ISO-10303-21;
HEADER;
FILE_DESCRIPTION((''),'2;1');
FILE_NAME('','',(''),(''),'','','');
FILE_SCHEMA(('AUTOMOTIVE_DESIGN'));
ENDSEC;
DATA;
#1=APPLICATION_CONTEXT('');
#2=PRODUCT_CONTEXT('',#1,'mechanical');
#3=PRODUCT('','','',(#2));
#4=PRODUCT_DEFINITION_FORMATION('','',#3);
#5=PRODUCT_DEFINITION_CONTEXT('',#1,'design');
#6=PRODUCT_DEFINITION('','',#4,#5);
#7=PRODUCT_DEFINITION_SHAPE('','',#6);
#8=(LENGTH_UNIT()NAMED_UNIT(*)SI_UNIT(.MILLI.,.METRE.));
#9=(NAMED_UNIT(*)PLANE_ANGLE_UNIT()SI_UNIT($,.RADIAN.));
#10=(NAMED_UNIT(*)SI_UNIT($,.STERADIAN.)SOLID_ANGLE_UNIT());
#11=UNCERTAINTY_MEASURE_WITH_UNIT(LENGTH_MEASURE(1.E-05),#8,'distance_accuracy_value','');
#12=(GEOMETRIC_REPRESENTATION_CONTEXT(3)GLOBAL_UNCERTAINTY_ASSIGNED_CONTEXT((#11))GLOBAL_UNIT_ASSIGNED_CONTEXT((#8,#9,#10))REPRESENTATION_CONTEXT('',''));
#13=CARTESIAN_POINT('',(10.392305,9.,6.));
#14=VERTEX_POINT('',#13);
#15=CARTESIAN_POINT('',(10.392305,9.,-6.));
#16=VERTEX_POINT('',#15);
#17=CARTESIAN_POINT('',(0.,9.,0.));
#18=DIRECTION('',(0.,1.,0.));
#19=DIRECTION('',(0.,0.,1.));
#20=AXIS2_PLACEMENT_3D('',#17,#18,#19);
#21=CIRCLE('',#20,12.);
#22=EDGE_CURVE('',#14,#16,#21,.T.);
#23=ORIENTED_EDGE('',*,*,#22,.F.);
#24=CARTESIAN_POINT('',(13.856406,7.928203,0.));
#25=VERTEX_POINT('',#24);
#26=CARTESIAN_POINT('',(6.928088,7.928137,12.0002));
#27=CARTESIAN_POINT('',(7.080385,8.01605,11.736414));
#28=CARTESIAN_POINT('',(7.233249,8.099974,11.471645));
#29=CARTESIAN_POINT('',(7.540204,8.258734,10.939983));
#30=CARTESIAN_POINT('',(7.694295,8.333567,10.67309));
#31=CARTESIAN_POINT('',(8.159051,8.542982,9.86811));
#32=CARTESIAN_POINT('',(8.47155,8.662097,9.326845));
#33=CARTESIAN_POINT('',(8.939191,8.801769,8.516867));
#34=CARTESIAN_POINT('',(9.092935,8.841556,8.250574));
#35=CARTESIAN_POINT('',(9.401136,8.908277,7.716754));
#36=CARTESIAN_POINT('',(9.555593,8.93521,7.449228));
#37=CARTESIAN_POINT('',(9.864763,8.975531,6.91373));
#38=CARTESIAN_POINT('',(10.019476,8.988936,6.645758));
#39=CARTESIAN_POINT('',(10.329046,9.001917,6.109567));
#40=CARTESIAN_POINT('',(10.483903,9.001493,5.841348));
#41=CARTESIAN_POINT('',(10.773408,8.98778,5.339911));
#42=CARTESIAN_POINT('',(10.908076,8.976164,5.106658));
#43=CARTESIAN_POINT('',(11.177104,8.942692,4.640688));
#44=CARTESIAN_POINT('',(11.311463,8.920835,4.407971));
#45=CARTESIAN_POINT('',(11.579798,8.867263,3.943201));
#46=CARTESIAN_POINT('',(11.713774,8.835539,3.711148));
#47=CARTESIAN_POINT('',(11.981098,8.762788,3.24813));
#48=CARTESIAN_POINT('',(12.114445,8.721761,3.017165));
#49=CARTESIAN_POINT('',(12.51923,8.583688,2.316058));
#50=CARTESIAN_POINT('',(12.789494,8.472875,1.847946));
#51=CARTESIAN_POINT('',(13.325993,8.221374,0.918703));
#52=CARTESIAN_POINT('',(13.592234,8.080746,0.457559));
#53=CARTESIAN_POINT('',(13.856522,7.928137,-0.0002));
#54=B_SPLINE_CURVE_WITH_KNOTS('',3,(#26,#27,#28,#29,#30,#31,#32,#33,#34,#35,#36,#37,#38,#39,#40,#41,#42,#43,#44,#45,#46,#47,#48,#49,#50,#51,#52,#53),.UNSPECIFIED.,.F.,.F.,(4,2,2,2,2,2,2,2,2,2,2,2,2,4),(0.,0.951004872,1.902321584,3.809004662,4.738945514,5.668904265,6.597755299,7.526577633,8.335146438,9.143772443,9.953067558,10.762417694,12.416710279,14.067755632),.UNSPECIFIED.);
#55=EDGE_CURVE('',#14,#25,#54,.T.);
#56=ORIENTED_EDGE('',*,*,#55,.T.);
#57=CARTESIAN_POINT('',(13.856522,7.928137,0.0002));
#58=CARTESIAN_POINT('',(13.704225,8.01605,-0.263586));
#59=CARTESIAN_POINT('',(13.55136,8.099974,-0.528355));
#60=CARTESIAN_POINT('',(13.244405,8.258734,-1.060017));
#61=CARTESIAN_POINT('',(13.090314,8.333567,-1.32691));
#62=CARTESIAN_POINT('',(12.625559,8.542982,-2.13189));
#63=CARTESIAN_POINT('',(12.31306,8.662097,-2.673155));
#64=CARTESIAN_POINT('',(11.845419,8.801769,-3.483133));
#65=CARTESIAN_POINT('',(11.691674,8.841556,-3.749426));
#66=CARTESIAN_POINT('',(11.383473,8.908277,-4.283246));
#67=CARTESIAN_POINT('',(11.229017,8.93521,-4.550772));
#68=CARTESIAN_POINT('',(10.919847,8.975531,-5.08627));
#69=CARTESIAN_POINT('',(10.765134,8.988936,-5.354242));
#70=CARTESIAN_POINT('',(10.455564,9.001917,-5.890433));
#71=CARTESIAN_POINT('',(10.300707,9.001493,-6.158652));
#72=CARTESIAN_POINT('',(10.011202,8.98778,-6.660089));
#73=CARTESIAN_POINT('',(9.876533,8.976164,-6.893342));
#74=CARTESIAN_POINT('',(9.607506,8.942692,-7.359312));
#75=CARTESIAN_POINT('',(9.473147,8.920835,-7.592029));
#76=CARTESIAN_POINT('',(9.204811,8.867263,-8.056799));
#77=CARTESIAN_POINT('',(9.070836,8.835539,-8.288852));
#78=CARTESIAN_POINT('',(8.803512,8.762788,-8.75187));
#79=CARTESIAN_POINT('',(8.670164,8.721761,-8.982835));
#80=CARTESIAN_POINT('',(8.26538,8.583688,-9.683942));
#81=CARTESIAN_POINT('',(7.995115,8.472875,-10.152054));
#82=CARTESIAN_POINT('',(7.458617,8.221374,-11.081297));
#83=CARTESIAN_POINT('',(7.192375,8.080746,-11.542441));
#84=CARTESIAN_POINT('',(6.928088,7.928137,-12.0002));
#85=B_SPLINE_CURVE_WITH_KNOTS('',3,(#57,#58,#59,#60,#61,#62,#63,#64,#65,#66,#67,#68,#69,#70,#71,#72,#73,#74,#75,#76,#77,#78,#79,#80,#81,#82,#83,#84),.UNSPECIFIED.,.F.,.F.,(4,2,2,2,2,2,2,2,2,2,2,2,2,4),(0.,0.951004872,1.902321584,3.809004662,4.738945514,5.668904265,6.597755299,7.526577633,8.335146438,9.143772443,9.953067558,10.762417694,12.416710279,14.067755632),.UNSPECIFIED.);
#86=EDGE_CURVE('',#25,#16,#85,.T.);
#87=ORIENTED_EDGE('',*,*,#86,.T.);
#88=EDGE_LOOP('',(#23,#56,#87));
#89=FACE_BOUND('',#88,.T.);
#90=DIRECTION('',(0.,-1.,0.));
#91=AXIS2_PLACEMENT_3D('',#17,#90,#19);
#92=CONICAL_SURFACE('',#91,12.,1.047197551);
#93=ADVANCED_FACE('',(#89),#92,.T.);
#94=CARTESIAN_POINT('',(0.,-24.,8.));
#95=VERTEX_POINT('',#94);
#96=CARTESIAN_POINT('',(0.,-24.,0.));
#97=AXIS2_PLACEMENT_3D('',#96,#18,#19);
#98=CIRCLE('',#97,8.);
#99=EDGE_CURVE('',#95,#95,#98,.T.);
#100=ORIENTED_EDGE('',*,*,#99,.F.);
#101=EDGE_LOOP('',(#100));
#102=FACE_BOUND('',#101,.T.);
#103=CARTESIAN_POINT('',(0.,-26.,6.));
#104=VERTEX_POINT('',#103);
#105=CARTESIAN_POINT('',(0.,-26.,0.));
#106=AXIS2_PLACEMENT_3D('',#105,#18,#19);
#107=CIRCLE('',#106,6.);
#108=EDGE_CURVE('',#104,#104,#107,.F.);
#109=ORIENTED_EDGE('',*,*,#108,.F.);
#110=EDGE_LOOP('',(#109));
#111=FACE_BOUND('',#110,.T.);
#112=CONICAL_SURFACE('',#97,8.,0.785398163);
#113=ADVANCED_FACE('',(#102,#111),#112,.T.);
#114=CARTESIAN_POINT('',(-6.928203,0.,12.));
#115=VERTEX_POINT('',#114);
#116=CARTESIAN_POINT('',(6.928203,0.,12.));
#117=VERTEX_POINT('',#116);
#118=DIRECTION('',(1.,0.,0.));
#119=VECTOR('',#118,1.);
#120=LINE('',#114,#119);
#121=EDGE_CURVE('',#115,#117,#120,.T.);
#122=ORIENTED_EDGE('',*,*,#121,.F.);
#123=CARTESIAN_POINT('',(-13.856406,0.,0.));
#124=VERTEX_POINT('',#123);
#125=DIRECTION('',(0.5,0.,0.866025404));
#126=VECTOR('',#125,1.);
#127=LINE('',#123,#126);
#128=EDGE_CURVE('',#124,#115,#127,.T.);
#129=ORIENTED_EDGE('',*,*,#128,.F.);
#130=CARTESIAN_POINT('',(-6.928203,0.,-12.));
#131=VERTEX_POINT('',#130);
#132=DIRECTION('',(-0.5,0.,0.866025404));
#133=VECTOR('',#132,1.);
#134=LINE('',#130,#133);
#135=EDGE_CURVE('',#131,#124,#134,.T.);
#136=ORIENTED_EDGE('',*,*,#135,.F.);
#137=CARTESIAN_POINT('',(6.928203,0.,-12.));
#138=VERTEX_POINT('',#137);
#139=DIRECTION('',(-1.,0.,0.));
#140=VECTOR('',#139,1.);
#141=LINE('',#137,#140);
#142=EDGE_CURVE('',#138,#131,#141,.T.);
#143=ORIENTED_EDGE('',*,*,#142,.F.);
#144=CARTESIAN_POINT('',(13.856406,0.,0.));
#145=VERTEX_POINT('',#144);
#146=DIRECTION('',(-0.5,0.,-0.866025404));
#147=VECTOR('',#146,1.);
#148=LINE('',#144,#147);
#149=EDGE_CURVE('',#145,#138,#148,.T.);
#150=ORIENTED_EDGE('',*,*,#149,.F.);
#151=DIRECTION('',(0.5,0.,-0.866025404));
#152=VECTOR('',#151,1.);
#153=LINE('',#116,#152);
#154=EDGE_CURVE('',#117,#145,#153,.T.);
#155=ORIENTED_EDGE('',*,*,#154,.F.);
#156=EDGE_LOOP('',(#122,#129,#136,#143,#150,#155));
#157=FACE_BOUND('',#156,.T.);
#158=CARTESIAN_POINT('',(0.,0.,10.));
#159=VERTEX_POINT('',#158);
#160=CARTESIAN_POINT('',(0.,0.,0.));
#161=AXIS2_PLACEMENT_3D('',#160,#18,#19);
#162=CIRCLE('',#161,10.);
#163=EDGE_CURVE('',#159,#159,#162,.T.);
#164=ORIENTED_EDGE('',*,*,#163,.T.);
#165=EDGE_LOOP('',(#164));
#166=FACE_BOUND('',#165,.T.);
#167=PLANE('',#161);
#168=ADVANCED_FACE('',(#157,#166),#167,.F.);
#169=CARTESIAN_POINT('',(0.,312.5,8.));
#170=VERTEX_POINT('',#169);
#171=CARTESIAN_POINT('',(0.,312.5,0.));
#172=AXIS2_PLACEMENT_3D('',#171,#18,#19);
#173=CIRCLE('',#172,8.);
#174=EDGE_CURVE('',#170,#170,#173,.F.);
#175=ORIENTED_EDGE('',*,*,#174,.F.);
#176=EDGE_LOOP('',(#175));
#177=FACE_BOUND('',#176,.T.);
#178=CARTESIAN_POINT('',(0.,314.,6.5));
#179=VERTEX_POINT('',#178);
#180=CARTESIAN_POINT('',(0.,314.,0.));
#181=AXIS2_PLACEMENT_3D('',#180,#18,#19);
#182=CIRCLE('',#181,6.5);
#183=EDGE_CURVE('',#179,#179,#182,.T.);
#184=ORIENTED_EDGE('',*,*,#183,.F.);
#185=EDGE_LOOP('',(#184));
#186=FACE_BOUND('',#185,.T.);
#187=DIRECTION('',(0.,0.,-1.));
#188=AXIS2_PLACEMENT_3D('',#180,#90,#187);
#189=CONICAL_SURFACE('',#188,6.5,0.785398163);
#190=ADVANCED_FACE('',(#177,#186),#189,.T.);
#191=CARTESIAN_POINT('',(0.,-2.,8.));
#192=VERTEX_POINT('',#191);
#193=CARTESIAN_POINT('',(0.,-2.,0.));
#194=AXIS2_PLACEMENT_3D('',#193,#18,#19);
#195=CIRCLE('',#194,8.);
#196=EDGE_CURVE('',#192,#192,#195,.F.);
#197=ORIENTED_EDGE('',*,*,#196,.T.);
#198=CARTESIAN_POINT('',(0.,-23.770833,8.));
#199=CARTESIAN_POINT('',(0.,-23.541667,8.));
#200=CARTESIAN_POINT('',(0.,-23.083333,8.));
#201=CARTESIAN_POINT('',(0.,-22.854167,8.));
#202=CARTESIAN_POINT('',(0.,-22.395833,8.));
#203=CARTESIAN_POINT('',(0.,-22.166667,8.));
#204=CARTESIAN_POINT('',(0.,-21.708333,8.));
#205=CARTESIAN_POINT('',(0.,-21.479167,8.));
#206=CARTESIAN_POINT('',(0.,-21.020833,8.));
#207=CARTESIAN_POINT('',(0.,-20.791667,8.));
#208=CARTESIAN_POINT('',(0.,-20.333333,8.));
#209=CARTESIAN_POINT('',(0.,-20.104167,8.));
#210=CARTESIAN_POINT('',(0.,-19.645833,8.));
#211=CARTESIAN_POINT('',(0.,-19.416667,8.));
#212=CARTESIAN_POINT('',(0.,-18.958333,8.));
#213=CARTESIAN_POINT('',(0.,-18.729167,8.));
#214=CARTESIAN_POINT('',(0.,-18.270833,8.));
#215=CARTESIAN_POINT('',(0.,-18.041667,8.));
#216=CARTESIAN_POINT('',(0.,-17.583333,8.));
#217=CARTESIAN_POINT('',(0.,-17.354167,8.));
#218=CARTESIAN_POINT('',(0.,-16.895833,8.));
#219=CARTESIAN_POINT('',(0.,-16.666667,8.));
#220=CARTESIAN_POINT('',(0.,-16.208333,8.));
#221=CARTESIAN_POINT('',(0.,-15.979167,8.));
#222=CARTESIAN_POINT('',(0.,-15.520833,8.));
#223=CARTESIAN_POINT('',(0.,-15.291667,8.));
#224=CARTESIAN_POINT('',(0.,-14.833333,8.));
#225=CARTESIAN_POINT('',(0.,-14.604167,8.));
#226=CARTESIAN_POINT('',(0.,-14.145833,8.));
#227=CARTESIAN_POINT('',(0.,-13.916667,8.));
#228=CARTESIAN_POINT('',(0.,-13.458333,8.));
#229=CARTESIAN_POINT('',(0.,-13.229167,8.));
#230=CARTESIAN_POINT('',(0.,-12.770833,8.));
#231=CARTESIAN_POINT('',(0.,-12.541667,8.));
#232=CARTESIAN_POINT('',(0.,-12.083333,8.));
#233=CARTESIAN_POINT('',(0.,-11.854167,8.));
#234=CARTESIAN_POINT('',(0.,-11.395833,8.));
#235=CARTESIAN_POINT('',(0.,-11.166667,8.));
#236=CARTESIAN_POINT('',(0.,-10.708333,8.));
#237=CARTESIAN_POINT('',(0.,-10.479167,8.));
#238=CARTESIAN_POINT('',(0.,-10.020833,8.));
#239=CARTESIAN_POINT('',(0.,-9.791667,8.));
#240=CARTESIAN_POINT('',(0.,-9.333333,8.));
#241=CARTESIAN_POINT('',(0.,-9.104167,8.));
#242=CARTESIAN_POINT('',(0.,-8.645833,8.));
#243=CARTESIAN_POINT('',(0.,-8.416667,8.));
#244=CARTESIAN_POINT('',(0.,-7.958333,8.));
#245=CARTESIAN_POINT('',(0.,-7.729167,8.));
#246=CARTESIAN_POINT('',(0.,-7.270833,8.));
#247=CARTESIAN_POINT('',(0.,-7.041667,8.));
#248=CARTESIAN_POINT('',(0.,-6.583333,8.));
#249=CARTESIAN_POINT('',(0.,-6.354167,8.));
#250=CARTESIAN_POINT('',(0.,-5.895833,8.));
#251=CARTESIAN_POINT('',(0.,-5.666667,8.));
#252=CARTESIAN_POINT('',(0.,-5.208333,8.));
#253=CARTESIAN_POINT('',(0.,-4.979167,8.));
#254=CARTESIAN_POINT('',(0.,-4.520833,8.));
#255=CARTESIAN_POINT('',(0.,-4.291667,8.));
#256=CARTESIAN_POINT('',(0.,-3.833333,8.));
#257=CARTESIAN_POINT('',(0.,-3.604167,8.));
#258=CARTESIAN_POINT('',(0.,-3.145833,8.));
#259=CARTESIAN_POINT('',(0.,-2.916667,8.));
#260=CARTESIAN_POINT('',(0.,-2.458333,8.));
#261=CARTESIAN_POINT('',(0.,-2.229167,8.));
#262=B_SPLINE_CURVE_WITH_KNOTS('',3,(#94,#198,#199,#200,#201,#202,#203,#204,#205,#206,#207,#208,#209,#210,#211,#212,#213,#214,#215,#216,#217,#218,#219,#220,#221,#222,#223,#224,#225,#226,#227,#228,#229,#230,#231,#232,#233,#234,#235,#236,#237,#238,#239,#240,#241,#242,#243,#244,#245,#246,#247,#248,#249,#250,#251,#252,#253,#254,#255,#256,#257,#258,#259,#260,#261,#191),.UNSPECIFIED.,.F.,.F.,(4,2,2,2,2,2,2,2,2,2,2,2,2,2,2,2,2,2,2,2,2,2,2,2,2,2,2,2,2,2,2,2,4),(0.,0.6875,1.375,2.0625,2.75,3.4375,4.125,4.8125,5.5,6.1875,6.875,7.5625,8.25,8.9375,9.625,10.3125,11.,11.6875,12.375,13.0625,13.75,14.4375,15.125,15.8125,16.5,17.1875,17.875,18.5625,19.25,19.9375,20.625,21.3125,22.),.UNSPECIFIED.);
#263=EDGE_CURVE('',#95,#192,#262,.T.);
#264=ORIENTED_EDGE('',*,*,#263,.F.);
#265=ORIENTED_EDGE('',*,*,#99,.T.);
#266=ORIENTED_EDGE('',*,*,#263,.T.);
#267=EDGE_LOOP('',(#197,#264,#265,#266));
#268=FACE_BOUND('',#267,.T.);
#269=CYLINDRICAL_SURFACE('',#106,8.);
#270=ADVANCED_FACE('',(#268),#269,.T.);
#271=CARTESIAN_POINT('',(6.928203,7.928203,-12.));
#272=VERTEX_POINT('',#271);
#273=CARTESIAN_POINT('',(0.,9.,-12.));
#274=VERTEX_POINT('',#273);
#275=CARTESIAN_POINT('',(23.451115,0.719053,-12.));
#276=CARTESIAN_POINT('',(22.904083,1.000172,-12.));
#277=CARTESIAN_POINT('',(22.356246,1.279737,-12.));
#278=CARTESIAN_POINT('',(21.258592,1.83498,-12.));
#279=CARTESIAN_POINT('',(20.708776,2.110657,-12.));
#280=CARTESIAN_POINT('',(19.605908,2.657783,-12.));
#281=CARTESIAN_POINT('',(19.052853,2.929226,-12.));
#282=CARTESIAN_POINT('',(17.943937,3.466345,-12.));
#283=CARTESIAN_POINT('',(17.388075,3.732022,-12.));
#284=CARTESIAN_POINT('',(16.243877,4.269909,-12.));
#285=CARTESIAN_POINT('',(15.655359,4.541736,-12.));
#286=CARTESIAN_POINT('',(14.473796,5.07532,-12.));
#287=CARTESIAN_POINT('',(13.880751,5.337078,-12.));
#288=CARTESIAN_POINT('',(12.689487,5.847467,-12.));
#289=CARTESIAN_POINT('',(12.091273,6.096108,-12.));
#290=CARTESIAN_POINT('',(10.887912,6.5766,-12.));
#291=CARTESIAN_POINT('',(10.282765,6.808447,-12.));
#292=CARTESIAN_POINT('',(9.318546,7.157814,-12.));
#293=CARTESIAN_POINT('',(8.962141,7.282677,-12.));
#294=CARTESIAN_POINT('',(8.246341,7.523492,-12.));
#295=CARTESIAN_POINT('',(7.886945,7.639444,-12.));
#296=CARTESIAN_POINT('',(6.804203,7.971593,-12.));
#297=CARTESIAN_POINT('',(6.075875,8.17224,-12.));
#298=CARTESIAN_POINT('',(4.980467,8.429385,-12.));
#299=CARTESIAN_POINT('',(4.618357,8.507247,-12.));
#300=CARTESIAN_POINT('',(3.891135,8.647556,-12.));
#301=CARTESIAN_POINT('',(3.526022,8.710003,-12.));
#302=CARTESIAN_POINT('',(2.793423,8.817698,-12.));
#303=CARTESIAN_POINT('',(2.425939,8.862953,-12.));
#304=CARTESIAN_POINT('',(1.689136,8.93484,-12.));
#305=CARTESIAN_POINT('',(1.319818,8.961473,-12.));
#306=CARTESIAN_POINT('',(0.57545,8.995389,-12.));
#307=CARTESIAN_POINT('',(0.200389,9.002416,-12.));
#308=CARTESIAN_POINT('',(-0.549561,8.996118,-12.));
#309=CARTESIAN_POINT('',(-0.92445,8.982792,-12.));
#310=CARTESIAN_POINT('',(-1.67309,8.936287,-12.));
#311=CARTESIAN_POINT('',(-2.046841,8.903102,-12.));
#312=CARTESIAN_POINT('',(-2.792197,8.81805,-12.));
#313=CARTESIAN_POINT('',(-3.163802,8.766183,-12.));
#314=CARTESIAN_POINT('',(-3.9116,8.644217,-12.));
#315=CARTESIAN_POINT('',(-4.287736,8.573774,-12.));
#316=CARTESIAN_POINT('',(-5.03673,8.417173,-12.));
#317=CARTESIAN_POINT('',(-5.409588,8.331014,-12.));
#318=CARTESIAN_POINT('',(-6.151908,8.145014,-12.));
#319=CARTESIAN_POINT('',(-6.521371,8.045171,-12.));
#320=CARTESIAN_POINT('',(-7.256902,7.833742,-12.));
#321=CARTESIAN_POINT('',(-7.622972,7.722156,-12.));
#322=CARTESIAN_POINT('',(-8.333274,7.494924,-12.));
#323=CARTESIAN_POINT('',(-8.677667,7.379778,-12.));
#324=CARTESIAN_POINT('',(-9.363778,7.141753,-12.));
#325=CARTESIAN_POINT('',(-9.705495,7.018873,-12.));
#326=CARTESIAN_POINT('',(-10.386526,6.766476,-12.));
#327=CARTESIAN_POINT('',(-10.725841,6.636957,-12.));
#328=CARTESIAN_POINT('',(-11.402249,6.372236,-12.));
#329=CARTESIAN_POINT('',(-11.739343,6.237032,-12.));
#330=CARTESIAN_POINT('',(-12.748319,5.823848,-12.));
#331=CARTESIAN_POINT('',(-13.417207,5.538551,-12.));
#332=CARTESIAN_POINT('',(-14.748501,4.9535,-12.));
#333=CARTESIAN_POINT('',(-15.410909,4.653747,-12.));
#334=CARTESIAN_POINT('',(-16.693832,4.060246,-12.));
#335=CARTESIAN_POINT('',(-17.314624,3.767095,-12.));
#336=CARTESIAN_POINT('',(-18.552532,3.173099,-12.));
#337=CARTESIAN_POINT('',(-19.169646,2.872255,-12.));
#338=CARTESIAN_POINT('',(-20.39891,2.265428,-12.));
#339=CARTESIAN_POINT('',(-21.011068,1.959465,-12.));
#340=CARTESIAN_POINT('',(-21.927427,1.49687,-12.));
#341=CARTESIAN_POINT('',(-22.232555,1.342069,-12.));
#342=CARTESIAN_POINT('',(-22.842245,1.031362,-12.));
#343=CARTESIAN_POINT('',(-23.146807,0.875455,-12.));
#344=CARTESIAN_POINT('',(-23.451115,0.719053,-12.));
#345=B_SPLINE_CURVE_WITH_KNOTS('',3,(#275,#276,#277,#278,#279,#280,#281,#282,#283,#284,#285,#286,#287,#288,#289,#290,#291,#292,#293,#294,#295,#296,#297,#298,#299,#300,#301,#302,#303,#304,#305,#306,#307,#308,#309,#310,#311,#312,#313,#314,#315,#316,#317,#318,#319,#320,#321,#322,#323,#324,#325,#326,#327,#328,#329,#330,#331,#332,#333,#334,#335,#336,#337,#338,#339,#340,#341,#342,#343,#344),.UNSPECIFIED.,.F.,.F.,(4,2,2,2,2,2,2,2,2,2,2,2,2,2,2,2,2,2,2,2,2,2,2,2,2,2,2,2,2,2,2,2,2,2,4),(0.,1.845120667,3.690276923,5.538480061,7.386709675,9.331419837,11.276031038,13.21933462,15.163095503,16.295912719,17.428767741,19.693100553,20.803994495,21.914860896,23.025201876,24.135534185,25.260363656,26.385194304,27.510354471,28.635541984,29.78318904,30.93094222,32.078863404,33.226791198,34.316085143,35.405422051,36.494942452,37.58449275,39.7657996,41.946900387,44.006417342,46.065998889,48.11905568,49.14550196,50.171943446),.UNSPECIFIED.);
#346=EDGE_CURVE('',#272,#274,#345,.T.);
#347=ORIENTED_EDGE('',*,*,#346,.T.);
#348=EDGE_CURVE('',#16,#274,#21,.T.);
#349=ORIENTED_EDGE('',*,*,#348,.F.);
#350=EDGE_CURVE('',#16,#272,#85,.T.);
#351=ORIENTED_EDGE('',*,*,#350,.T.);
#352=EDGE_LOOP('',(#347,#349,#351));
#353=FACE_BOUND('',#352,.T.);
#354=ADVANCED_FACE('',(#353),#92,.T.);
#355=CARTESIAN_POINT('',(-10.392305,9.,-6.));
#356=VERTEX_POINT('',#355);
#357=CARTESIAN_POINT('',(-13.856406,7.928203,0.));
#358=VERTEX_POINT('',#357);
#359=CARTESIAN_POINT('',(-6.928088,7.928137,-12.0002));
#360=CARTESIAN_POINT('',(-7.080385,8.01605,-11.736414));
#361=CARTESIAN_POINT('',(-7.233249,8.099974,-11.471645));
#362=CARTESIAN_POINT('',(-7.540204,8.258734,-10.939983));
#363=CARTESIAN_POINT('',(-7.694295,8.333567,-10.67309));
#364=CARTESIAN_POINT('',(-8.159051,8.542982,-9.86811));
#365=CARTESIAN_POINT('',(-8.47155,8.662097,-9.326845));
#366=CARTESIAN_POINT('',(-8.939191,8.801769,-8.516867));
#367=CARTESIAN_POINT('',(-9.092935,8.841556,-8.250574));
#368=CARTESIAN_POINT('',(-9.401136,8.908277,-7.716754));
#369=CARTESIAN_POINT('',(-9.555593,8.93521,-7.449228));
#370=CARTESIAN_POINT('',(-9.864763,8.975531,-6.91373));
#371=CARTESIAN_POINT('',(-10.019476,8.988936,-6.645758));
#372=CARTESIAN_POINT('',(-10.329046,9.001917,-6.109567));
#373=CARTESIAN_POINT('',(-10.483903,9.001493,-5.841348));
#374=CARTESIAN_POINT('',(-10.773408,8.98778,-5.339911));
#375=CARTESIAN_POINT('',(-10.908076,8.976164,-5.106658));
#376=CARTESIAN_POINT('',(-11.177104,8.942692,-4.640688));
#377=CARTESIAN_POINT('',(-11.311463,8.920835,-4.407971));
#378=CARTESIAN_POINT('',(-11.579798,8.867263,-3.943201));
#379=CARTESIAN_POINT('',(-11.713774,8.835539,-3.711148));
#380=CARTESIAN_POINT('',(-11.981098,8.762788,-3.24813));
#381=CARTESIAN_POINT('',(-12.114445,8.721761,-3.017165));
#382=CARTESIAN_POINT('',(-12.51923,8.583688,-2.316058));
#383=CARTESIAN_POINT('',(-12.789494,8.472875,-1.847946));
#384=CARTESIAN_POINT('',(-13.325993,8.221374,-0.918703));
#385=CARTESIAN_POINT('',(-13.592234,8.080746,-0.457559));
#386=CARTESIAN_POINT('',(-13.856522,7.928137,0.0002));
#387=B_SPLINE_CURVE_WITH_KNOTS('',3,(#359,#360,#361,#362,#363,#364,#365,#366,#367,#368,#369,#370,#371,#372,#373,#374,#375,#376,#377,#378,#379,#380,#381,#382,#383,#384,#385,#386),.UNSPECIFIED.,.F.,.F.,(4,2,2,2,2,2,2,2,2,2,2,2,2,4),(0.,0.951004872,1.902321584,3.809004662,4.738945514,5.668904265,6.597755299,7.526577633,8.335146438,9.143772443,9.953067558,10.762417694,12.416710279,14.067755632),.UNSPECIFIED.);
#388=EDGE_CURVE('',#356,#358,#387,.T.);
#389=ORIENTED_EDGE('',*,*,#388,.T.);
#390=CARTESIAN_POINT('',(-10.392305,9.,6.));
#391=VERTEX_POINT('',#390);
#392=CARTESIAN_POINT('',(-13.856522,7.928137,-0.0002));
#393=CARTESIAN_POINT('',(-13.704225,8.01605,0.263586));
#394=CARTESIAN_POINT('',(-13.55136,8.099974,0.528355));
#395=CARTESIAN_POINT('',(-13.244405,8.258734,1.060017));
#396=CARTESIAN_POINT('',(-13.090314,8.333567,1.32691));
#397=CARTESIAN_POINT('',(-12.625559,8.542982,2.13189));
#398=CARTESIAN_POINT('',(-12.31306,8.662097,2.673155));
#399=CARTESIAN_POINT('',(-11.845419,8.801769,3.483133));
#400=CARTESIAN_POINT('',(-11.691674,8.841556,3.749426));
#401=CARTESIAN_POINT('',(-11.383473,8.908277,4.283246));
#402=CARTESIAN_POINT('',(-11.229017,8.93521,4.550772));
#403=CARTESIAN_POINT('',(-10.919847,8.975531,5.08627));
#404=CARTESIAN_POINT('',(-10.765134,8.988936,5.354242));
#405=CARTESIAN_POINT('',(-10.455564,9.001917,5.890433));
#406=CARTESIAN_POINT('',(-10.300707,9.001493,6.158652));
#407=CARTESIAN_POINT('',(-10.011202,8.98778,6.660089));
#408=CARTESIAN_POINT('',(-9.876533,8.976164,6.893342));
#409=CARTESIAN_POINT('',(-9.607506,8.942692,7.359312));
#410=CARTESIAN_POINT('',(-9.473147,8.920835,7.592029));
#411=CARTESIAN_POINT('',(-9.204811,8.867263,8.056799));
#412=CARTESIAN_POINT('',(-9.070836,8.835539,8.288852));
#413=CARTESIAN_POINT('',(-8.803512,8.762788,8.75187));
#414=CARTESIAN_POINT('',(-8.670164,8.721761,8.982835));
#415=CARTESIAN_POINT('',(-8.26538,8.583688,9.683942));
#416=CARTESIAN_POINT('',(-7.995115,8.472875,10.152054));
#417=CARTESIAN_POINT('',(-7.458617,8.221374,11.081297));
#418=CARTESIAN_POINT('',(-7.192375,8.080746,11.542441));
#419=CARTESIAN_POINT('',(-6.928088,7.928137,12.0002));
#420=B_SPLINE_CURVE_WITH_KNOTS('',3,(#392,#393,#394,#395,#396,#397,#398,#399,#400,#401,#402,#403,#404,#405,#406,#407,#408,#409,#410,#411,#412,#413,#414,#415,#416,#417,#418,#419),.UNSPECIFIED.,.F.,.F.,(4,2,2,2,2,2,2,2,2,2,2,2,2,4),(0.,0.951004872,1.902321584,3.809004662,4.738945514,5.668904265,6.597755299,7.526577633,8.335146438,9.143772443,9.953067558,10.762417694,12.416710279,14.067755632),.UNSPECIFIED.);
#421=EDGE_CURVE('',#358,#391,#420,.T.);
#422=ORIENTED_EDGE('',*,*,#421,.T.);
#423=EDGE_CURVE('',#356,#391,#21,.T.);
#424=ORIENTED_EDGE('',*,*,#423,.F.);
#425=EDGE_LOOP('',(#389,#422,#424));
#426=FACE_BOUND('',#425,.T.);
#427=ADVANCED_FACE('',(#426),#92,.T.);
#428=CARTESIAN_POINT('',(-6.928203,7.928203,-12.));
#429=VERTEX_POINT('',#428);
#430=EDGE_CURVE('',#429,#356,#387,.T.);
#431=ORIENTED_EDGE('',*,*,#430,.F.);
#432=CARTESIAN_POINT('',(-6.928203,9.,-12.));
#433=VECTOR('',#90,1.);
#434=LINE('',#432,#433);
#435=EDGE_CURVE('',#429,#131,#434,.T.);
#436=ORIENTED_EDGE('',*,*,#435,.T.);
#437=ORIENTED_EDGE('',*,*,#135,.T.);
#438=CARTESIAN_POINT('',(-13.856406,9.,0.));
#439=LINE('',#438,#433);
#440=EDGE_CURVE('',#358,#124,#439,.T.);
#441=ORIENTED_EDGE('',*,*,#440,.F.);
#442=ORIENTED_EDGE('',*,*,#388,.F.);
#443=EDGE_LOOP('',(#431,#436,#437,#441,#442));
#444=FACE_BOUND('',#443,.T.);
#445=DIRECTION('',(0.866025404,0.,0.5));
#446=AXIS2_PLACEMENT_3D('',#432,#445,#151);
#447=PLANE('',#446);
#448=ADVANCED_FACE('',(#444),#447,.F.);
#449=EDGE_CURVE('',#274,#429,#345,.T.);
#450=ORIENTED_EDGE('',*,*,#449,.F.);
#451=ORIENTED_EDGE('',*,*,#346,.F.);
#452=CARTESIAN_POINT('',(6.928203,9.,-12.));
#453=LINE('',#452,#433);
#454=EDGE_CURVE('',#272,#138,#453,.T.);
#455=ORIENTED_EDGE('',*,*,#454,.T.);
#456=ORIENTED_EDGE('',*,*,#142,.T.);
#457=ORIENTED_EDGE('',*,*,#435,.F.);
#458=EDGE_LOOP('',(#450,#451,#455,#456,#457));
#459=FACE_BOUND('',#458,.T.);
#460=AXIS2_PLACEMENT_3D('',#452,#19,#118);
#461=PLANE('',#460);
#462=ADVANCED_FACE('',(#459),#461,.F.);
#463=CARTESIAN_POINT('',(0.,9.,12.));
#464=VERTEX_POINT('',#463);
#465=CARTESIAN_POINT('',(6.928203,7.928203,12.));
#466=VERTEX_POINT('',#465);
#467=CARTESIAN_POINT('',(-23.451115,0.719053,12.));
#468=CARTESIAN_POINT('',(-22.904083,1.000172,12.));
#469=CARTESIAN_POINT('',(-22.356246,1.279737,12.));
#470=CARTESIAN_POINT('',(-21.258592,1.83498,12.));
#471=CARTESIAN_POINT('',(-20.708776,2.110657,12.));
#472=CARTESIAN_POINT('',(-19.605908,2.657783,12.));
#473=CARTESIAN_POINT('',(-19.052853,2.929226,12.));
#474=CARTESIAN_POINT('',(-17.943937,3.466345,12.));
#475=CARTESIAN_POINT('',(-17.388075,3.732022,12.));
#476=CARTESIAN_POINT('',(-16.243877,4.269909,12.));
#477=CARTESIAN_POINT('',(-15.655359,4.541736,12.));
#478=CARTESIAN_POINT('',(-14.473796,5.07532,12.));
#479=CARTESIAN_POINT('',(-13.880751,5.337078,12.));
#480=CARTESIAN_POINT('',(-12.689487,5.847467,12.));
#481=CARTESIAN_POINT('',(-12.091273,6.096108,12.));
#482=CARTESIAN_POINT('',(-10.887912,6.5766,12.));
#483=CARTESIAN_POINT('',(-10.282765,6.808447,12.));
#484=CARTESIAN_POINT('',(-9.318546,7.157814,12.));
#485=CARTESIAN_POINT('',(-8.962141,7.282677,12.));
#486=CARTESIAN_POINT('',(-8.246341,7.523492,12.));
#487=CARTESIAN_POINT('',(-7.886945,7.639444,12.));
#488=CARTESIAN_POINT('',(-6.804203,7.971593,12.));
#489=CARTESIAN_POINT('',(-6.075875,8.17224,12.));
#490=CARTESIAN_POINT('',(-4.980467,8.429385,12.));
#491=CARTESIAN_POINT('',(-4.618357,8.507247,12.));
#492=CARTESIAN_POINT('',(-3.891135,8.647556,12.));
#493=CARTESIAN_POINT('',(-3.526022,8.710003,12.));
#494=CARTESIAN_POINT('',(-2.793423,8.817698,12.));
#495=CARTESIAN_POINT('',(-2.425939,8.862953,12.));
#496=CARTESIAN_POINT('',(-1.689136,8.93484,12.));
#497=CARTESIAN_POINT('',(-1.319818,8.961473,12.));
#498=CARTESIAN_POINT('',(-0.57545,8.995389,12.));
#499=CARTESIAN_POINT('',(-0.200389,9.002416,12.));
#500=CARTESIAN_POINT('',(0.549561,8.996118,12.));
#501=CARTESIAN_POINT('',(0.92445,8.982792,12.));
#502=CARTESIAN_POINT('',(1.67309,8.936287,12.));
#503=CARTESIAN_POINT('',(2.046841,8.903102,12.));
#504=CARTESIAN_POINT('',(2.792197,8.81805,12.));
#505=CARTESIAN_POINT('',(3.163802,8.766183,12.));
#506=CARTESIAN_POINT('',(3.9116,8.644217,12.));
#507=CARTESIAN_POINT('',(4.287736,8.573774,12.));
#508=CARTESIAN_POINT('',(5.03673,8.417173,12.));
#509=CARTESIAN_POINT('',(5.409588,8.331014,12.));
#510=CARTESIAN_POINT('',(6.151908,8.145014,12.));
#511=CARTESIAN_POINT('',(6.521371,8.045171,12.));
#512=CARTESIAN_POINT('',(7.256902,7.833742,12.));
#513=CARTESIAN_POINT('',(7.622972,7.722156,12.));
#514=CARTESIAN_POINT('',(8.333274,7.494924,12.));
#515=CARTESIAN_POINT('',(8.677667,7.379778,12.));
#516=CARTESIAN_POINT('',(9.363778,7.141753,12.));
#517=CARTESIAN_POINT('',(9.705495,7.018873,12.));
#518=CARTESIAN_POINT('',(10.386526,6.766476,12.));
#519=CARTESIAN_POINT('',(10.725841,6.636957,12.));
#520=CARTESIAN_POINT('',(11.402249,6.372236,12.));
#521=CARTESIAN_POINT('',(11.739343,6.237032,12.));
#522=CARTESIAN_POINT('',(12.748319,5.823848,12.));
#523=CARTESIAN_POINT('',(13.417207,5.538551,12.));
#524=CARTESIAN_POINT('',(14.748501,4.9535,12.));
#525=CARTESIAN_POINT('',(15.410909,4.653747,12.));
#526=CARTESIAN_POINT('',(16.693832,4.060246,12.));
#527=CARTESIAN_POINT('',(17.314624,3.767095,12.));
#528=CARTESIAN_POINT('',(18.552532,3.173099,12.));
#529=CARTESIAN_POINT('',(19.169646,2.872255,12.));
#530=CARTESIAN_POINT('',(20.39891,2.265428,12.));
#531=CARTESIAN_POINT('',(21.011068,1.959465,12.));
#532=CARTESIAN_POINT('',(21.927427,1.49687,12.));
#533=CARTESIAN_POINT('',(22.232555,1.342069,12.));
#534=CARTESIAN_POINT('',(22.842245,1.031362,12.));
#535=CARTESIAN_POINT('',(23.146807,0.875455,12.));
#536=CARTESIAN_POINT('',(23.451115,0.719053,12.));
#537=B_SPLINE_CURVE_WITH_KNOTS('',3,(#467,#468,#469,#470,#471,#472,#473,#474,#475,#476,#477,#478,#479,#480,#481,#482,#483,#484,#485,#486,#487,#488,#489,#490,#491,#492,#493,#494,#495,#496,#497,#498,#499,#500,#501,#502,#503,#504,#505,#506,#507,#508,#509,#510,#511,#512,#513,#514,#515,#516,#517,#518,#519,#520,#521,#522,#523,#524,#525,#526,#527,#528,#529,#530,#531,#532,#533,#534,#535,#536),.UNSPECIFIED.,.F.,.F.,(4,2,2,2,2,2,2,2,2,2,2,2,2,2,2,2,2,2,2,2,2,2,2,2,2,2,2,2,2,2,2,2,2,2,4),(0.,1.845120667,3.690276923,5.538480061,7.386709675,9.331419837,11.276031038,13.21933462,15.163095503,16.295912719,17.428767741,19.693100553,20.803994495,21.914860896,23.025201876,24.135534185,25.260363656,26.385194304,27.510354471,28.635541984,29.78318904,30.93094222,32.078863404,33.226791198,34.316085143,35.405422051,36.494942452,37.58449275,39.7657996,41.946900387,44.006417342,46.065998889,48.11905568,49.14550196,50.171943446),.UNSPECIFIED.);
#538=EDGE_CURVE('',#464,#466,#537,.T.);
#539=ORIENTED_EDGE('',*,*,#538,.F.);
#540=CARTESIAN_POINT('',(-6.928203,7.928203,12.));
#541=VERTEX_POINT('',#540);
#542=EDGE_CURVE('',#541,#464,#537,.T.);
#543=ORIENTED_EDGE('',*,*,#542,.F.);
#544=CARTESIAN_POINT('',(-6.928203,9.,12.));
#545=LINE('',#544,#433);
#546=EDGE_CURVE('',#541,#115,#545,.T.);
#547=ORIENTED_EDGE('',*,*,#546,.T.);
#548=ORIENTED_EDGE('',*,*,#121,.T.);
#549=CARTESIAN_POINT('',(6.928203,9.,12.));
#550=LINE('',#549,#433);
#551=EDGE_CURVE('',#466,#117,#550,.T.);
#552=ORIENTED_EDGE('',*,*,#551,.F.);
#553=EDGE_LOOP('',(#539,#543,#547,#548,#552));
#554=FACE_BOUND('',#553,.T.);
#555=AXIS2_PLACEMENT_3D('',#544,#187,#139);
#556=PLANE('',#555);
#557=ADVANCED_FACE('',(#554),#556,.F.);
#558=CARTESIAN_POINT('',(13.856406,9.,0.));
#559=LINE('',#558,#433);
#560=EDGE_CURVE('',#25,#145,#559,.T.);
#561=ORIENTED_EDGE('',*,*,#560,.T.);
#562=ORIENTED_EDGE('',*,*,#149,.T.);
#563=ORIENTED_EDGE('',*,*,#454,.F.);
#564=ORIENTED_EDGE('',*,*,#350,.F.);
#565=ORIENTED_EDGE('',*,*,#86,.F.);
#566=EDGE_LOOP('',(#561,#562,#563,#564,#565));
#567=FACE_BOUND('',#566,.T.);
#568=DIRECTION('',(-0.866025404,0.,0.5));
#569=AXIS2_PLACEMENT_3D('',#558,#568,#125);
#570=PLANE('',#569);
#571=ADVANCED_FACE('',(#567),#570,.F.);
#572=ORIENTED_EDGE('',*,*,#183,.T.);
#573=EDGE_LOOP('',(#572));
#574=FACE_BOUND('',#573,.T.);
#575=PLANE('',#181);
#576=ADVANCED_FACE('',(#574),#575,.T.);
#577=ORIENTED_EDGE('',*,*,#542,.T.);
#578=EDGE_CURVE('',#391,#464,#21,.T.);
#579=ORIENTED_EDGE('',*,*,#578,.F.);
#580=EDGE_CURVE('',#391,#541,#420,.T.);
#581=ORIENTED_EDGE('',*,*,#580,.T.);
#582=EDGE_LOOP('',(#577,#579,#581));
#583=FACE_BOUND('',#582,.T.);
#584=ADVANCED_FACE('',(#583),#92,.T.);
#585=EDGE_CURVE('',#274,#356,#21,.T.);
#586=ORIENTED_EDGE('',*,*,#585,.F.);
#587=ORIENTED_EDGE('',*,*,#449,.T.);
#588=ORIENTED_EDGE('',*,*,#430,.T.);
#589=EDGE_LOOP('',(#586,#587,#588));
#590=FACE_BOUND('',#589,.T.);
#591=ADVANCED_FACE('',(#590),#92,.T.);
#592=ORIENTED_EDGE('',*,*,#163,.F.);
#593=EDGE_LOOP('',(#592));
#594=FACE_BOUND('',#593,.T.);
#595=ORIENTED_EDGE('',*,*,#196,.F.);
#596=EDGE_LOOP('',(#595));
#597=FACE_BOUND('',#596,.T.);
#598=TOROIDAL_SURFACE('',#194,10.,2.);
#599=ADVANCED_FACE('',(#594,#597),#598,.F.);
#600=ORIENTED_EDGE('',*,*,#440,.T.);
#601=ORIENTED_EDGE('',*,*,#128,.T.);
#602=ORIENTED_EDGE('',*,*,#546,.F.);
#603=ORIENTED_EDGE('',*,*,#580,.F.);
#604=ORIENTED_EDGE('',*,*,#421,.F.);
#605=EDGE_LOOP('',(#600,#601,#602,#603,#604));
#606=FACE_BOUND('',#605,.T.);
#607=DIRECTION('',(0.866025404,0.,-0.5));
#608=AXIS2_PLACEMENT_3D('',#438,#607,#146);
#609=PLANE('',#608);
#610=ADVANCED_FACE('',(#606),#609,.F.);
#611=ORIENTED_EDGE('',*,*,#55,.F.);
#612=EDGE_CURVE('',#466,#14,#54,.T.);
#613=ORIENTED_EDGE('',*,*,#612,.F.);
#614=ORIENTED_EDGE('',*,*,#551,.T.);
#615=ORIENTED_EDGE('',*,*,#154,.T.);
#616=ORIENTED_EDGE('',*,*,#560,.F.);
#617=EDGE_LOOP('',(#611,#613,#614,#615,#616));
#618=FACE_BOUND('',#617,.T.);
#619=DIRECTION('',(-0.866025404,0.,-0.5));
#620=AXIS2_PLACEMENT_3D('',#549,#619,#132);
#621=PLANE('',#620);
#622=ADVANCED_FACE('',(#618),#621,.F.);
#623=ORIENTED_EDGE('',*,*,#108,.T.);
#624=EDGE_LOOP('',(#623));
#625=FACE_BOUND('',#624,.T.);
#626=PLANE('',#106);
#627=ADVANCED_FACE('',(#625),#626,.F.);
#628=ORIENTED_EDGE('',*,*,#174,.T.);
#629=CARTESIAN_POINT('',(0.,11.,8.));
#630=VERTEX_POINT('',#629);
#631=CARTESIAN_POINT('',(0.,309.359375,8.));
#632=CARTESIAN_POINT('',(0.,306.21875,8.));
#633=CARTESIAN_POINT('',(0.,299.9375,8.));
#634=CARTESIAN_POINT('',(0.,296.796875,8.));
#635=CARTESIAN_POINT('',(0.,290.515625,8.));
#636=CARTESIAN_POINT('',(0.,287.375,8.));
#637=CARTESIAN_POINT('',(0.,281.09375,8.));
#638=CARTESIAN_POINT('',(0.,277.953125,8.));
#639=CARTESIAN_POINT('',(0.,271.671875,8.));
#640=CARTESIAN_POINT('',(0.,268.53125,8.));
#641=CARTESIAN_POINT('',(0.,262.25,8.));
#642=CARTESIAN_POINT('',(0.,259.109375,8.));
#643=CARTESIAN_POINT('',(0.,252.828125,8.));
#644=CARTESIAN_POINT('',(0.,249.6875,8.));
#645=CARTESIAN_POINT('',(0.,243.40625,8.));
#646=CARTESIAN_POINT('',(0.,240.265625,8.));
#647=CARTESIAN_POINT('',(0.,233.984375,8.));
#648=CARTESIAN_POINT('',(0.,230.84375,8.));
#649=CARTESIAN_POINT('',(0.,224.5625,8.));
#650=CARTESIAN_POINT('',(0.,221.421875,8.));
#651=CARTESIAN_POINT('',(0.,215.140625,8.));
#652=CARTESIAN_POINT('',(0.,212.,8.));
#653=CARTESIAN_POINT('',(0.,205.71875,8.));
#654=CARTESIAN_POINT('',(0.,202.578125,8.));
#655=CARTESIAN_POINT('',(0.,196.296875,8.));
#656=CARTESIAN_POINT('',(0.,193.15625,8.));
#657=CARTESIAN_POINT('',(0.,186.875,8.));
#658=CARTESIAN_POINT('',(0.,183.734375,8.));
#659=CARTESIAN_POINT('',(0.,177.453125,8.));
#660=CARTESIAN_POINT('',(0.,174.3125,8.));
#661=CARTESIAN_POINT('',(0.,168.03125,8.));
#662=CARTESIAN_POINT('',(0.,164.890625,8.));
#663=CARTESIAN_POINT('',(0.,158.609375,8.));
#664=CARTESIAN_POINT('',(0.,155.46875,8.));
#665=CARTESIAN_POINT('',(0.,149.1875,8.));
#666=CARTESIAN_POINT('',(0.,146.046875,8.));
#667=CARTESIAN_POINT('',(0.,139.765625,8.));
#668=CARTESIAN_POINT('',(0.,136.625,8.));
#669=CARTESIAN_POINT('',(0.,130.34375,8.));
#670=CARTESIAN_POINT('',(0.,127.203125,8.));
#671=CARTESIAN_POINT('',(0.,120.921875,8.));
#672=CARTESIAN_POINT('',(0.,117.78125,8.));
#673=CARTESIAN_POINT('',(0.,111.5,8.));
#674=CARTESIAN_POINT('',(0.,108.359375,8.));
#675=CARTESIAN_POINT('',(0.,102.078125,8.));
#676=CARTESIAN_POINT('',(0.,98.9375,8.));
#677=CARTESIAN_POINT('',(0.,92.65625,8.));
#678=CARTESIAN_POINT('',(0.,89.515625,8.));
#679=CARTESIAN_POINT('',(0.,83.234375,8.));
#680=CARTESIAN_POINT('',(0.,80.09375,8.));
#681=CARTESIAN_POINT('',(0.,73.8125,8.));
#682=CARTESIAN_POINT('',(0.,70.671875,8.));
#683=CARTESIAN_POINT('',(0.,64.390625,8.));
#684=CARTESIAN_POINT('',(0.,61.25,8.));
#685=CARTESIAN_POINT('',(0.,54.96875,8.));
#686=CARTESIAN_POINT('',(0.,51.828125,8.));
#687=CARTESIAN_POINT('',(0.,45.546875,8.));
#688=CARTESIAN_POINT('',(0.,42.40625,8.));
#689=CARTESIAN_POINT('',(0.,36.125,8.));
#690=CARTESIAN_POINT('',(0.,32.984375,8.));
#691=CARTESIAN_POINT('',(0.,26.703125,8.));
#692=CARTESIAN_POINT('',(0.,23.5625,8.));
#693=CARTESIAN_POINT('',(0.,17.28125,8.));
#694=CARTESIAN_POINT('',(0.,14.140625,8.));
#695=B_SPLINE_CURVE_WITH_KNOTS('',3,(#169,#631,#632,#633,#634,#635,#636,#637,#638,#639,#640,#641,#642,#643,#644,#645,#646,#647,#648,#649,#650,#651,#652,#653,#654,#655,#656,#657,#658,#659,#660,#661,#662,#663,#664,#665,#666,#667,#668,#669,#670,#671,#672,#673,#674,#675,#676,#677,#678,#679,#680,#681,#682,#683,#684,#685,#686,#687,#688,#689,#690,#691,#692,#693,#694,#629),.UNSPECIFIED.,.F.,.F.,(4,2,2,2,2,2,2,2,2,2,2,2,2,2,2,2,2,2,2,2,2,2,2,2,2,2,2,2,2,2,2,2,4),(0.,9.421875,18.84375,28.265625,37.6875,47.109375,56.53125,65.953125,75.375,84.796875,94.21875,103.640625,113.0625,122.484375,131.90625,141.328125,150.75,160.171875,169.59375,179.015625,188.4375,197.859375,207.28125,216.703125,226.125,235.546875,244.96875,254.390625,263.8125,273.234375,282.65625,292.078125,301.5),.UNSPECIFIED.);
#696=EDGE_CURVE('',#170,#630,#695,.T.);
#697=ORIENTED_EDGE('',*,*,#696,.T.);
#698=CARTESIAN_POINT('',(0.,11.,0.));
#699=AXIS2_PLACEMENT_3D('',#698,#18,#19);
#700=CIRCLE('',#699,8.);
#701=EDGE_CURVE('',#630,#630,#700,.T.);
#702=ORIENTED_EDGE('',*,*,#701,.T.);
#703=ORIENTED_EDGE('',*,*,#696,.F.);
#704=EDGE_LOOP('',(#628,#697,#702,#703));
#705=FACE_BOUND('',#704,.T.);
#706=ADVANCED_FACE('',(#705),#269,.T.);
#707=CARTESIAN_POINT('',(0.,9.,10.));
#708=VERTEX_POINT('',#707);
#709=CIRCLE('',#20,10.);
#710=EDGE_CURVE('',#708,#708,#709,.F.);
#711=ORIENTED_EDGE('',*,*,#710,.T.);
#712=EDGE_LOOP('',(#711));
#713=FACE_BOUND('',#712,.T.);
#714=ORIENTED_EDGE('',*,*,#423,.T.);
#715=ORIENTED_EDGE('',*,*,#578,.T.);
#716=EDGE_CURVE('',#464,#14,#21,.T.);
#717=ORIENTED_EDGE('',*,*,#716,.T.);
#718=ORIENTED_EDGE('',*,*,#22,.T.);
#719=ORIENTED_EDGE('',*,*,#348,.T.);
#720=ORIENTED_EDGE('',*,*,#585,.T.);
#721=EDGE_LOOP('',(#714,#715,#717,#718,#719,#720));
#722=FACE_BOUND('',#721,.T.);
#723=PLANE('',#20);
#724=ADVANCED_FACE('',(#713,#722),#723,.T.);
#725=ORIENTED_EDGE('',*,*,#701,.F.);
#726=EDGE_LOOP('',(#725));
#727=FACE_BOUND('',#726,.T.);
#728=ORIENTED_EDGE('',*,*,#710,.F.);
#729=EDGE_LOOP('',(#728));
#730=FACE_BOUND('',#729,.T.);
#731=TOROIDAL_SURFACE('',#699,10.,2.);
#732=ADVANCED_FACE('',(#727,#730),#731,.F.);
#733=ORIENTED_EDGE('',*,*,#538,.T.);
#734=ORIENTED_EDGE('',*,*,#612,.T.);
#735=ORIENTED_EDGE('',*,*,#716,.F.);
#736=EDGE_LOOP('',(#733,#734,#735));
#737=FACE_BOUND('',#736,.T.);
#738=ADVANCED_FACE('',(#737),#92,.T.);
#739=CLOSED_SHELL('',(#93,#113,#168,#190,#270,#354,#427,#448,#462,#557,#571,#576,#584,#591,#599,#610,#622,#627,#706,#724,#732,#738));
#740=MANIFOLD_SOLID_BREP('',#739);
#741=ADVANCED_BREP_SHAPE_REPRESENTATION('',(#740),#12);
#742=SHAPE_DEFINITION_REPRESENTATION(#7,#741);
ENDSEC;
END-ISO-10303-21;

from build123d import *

# Parameters (mm, degrees)
BOSS_EXTRUDE1_DEPTH      = 314
BOSS_EXTRUDE1_DEPTH_BACK = 26
SKETCH1_R                = 8
SKETCH1_3_R              = 8
BOSS_EXTRUDE2_DEPTH      = 9
FILLET1_R                = 2
CHAMFER2_SIZE            = 2
CHAMFER3_SIZE            = 1.5
SKETCH2_OUTSIDE_W        = 129.284
SKETCH2_OUTSIDE_H        = 125.572
SKETCH2_OUTSIDE_R        = 12
CUT_EXTRUDE1_DEPTH       = 9
CUT_EXTRUDE1_DRAFT       = -60


with BuildPart() as part:
    # Sketch1 → Boss-Extrude1 (new, two sides: drawn at the far end of the back side and taken through both)
    with BuildSketch(Plane(origin=(0, 0, 0), x_dir=(1, 0, 0), z_dir=(0, 1, 0)).offset(-BOSS_EXTRUDE1_DEPTH_BACK)):
        Circle(SKETCH1_R)
    extrude(amount=BOSS_EXTRUDE1_DEPTH + BOSS_EXTRUDE1_DEPTH_BACK)

    # Sketch1<3> → Boss-Extrude2 (add)
    with BuildSketch(Plane(origin=(0, 0, 0), x_dir=(1, 0, 0), z_dir=(0, 1, 0))):
        Polygon((13.856406461, 0), (6.92820323, 12), (-6.92820323, 12), (-13.856406461, 0), (-6.92820323, -12), (6.92820323, -12), align=None)
        Circle(SKETCH1_3_R, mode=Mode.SUBTRACT)
    extrude(amount=BOSS_EXTRUDE2_DEPTH)

    # Fillet1
    fillet1_edges = [part.edges().sort_by_distance(p)[0] for p in [
        (-8, 9, 0),
        (-8, 0, 0),
    ]]
    fillet(fillet1_edges, radius=FILLET1_R)

    # Chamfer2
    chamfer2_edges = [part.edges().sort_by_distance(p)[0] for p in [
        (-8, -26, 0),
    ]]
    chamfer(chamfer2_edges, length=CHAMFER2_SIZE)

    # Chamfer3
    chamfer3_edges = [part.edges().sort_by_distance(p)[0] for p in [
        (-8, 314, 0),
    ]]
    chamfer(chamfer3_edges, length=CHAMFER3_SIZE)


with BuildPart() as cut_extrude1_tool:
    # Sketch2 outside → Cut-Extrude1 (with draft: the straight prism first)
    with BuildSketch(Plane(origin=(0, 9, 0), x_dir=(1, 0, 0), z_dir=(0, 1, 0))):
        Rectangle(SKETCH2_OUTSIDE_W, SKETCH2_OUTSIDE_H)
        Circle(SKETCH2_OUTSIDE_R, mode=Mode.SUBTRACT)
    extrude(amount=-CUT_EXTRUDE1_DEPTH)
    # Cut-Extrude1: the draft: its side faces are tilted about the plane it starts from
    cut_extrude1_sides = [cut_extrude1_tool.faces().sort_by_distance(p)[0] for p in [
        (0, 4.5, 62.786),
        (64.642, 4.5, 0),
        (0, 4.5, -62.786),
        (-64.642, 4.5, 0),
        (-12, 4.5, 0),
    ]]
    draft(cut_extrude1_sides, Plane(origin=(0, 9, 0), x_dir=(1, 0, 0), z_dir=(0, 1, 0)), CUT_EXTRUDE1_DRAFT)


with BuildPart() as part_1:
    add(part.part)

    # Cut-Extrude1: cut by cut_extrude1_tool
    add(cut_extrude1_tool.part, mode=Mode.SUBTRACT)


solid = part_1.part
